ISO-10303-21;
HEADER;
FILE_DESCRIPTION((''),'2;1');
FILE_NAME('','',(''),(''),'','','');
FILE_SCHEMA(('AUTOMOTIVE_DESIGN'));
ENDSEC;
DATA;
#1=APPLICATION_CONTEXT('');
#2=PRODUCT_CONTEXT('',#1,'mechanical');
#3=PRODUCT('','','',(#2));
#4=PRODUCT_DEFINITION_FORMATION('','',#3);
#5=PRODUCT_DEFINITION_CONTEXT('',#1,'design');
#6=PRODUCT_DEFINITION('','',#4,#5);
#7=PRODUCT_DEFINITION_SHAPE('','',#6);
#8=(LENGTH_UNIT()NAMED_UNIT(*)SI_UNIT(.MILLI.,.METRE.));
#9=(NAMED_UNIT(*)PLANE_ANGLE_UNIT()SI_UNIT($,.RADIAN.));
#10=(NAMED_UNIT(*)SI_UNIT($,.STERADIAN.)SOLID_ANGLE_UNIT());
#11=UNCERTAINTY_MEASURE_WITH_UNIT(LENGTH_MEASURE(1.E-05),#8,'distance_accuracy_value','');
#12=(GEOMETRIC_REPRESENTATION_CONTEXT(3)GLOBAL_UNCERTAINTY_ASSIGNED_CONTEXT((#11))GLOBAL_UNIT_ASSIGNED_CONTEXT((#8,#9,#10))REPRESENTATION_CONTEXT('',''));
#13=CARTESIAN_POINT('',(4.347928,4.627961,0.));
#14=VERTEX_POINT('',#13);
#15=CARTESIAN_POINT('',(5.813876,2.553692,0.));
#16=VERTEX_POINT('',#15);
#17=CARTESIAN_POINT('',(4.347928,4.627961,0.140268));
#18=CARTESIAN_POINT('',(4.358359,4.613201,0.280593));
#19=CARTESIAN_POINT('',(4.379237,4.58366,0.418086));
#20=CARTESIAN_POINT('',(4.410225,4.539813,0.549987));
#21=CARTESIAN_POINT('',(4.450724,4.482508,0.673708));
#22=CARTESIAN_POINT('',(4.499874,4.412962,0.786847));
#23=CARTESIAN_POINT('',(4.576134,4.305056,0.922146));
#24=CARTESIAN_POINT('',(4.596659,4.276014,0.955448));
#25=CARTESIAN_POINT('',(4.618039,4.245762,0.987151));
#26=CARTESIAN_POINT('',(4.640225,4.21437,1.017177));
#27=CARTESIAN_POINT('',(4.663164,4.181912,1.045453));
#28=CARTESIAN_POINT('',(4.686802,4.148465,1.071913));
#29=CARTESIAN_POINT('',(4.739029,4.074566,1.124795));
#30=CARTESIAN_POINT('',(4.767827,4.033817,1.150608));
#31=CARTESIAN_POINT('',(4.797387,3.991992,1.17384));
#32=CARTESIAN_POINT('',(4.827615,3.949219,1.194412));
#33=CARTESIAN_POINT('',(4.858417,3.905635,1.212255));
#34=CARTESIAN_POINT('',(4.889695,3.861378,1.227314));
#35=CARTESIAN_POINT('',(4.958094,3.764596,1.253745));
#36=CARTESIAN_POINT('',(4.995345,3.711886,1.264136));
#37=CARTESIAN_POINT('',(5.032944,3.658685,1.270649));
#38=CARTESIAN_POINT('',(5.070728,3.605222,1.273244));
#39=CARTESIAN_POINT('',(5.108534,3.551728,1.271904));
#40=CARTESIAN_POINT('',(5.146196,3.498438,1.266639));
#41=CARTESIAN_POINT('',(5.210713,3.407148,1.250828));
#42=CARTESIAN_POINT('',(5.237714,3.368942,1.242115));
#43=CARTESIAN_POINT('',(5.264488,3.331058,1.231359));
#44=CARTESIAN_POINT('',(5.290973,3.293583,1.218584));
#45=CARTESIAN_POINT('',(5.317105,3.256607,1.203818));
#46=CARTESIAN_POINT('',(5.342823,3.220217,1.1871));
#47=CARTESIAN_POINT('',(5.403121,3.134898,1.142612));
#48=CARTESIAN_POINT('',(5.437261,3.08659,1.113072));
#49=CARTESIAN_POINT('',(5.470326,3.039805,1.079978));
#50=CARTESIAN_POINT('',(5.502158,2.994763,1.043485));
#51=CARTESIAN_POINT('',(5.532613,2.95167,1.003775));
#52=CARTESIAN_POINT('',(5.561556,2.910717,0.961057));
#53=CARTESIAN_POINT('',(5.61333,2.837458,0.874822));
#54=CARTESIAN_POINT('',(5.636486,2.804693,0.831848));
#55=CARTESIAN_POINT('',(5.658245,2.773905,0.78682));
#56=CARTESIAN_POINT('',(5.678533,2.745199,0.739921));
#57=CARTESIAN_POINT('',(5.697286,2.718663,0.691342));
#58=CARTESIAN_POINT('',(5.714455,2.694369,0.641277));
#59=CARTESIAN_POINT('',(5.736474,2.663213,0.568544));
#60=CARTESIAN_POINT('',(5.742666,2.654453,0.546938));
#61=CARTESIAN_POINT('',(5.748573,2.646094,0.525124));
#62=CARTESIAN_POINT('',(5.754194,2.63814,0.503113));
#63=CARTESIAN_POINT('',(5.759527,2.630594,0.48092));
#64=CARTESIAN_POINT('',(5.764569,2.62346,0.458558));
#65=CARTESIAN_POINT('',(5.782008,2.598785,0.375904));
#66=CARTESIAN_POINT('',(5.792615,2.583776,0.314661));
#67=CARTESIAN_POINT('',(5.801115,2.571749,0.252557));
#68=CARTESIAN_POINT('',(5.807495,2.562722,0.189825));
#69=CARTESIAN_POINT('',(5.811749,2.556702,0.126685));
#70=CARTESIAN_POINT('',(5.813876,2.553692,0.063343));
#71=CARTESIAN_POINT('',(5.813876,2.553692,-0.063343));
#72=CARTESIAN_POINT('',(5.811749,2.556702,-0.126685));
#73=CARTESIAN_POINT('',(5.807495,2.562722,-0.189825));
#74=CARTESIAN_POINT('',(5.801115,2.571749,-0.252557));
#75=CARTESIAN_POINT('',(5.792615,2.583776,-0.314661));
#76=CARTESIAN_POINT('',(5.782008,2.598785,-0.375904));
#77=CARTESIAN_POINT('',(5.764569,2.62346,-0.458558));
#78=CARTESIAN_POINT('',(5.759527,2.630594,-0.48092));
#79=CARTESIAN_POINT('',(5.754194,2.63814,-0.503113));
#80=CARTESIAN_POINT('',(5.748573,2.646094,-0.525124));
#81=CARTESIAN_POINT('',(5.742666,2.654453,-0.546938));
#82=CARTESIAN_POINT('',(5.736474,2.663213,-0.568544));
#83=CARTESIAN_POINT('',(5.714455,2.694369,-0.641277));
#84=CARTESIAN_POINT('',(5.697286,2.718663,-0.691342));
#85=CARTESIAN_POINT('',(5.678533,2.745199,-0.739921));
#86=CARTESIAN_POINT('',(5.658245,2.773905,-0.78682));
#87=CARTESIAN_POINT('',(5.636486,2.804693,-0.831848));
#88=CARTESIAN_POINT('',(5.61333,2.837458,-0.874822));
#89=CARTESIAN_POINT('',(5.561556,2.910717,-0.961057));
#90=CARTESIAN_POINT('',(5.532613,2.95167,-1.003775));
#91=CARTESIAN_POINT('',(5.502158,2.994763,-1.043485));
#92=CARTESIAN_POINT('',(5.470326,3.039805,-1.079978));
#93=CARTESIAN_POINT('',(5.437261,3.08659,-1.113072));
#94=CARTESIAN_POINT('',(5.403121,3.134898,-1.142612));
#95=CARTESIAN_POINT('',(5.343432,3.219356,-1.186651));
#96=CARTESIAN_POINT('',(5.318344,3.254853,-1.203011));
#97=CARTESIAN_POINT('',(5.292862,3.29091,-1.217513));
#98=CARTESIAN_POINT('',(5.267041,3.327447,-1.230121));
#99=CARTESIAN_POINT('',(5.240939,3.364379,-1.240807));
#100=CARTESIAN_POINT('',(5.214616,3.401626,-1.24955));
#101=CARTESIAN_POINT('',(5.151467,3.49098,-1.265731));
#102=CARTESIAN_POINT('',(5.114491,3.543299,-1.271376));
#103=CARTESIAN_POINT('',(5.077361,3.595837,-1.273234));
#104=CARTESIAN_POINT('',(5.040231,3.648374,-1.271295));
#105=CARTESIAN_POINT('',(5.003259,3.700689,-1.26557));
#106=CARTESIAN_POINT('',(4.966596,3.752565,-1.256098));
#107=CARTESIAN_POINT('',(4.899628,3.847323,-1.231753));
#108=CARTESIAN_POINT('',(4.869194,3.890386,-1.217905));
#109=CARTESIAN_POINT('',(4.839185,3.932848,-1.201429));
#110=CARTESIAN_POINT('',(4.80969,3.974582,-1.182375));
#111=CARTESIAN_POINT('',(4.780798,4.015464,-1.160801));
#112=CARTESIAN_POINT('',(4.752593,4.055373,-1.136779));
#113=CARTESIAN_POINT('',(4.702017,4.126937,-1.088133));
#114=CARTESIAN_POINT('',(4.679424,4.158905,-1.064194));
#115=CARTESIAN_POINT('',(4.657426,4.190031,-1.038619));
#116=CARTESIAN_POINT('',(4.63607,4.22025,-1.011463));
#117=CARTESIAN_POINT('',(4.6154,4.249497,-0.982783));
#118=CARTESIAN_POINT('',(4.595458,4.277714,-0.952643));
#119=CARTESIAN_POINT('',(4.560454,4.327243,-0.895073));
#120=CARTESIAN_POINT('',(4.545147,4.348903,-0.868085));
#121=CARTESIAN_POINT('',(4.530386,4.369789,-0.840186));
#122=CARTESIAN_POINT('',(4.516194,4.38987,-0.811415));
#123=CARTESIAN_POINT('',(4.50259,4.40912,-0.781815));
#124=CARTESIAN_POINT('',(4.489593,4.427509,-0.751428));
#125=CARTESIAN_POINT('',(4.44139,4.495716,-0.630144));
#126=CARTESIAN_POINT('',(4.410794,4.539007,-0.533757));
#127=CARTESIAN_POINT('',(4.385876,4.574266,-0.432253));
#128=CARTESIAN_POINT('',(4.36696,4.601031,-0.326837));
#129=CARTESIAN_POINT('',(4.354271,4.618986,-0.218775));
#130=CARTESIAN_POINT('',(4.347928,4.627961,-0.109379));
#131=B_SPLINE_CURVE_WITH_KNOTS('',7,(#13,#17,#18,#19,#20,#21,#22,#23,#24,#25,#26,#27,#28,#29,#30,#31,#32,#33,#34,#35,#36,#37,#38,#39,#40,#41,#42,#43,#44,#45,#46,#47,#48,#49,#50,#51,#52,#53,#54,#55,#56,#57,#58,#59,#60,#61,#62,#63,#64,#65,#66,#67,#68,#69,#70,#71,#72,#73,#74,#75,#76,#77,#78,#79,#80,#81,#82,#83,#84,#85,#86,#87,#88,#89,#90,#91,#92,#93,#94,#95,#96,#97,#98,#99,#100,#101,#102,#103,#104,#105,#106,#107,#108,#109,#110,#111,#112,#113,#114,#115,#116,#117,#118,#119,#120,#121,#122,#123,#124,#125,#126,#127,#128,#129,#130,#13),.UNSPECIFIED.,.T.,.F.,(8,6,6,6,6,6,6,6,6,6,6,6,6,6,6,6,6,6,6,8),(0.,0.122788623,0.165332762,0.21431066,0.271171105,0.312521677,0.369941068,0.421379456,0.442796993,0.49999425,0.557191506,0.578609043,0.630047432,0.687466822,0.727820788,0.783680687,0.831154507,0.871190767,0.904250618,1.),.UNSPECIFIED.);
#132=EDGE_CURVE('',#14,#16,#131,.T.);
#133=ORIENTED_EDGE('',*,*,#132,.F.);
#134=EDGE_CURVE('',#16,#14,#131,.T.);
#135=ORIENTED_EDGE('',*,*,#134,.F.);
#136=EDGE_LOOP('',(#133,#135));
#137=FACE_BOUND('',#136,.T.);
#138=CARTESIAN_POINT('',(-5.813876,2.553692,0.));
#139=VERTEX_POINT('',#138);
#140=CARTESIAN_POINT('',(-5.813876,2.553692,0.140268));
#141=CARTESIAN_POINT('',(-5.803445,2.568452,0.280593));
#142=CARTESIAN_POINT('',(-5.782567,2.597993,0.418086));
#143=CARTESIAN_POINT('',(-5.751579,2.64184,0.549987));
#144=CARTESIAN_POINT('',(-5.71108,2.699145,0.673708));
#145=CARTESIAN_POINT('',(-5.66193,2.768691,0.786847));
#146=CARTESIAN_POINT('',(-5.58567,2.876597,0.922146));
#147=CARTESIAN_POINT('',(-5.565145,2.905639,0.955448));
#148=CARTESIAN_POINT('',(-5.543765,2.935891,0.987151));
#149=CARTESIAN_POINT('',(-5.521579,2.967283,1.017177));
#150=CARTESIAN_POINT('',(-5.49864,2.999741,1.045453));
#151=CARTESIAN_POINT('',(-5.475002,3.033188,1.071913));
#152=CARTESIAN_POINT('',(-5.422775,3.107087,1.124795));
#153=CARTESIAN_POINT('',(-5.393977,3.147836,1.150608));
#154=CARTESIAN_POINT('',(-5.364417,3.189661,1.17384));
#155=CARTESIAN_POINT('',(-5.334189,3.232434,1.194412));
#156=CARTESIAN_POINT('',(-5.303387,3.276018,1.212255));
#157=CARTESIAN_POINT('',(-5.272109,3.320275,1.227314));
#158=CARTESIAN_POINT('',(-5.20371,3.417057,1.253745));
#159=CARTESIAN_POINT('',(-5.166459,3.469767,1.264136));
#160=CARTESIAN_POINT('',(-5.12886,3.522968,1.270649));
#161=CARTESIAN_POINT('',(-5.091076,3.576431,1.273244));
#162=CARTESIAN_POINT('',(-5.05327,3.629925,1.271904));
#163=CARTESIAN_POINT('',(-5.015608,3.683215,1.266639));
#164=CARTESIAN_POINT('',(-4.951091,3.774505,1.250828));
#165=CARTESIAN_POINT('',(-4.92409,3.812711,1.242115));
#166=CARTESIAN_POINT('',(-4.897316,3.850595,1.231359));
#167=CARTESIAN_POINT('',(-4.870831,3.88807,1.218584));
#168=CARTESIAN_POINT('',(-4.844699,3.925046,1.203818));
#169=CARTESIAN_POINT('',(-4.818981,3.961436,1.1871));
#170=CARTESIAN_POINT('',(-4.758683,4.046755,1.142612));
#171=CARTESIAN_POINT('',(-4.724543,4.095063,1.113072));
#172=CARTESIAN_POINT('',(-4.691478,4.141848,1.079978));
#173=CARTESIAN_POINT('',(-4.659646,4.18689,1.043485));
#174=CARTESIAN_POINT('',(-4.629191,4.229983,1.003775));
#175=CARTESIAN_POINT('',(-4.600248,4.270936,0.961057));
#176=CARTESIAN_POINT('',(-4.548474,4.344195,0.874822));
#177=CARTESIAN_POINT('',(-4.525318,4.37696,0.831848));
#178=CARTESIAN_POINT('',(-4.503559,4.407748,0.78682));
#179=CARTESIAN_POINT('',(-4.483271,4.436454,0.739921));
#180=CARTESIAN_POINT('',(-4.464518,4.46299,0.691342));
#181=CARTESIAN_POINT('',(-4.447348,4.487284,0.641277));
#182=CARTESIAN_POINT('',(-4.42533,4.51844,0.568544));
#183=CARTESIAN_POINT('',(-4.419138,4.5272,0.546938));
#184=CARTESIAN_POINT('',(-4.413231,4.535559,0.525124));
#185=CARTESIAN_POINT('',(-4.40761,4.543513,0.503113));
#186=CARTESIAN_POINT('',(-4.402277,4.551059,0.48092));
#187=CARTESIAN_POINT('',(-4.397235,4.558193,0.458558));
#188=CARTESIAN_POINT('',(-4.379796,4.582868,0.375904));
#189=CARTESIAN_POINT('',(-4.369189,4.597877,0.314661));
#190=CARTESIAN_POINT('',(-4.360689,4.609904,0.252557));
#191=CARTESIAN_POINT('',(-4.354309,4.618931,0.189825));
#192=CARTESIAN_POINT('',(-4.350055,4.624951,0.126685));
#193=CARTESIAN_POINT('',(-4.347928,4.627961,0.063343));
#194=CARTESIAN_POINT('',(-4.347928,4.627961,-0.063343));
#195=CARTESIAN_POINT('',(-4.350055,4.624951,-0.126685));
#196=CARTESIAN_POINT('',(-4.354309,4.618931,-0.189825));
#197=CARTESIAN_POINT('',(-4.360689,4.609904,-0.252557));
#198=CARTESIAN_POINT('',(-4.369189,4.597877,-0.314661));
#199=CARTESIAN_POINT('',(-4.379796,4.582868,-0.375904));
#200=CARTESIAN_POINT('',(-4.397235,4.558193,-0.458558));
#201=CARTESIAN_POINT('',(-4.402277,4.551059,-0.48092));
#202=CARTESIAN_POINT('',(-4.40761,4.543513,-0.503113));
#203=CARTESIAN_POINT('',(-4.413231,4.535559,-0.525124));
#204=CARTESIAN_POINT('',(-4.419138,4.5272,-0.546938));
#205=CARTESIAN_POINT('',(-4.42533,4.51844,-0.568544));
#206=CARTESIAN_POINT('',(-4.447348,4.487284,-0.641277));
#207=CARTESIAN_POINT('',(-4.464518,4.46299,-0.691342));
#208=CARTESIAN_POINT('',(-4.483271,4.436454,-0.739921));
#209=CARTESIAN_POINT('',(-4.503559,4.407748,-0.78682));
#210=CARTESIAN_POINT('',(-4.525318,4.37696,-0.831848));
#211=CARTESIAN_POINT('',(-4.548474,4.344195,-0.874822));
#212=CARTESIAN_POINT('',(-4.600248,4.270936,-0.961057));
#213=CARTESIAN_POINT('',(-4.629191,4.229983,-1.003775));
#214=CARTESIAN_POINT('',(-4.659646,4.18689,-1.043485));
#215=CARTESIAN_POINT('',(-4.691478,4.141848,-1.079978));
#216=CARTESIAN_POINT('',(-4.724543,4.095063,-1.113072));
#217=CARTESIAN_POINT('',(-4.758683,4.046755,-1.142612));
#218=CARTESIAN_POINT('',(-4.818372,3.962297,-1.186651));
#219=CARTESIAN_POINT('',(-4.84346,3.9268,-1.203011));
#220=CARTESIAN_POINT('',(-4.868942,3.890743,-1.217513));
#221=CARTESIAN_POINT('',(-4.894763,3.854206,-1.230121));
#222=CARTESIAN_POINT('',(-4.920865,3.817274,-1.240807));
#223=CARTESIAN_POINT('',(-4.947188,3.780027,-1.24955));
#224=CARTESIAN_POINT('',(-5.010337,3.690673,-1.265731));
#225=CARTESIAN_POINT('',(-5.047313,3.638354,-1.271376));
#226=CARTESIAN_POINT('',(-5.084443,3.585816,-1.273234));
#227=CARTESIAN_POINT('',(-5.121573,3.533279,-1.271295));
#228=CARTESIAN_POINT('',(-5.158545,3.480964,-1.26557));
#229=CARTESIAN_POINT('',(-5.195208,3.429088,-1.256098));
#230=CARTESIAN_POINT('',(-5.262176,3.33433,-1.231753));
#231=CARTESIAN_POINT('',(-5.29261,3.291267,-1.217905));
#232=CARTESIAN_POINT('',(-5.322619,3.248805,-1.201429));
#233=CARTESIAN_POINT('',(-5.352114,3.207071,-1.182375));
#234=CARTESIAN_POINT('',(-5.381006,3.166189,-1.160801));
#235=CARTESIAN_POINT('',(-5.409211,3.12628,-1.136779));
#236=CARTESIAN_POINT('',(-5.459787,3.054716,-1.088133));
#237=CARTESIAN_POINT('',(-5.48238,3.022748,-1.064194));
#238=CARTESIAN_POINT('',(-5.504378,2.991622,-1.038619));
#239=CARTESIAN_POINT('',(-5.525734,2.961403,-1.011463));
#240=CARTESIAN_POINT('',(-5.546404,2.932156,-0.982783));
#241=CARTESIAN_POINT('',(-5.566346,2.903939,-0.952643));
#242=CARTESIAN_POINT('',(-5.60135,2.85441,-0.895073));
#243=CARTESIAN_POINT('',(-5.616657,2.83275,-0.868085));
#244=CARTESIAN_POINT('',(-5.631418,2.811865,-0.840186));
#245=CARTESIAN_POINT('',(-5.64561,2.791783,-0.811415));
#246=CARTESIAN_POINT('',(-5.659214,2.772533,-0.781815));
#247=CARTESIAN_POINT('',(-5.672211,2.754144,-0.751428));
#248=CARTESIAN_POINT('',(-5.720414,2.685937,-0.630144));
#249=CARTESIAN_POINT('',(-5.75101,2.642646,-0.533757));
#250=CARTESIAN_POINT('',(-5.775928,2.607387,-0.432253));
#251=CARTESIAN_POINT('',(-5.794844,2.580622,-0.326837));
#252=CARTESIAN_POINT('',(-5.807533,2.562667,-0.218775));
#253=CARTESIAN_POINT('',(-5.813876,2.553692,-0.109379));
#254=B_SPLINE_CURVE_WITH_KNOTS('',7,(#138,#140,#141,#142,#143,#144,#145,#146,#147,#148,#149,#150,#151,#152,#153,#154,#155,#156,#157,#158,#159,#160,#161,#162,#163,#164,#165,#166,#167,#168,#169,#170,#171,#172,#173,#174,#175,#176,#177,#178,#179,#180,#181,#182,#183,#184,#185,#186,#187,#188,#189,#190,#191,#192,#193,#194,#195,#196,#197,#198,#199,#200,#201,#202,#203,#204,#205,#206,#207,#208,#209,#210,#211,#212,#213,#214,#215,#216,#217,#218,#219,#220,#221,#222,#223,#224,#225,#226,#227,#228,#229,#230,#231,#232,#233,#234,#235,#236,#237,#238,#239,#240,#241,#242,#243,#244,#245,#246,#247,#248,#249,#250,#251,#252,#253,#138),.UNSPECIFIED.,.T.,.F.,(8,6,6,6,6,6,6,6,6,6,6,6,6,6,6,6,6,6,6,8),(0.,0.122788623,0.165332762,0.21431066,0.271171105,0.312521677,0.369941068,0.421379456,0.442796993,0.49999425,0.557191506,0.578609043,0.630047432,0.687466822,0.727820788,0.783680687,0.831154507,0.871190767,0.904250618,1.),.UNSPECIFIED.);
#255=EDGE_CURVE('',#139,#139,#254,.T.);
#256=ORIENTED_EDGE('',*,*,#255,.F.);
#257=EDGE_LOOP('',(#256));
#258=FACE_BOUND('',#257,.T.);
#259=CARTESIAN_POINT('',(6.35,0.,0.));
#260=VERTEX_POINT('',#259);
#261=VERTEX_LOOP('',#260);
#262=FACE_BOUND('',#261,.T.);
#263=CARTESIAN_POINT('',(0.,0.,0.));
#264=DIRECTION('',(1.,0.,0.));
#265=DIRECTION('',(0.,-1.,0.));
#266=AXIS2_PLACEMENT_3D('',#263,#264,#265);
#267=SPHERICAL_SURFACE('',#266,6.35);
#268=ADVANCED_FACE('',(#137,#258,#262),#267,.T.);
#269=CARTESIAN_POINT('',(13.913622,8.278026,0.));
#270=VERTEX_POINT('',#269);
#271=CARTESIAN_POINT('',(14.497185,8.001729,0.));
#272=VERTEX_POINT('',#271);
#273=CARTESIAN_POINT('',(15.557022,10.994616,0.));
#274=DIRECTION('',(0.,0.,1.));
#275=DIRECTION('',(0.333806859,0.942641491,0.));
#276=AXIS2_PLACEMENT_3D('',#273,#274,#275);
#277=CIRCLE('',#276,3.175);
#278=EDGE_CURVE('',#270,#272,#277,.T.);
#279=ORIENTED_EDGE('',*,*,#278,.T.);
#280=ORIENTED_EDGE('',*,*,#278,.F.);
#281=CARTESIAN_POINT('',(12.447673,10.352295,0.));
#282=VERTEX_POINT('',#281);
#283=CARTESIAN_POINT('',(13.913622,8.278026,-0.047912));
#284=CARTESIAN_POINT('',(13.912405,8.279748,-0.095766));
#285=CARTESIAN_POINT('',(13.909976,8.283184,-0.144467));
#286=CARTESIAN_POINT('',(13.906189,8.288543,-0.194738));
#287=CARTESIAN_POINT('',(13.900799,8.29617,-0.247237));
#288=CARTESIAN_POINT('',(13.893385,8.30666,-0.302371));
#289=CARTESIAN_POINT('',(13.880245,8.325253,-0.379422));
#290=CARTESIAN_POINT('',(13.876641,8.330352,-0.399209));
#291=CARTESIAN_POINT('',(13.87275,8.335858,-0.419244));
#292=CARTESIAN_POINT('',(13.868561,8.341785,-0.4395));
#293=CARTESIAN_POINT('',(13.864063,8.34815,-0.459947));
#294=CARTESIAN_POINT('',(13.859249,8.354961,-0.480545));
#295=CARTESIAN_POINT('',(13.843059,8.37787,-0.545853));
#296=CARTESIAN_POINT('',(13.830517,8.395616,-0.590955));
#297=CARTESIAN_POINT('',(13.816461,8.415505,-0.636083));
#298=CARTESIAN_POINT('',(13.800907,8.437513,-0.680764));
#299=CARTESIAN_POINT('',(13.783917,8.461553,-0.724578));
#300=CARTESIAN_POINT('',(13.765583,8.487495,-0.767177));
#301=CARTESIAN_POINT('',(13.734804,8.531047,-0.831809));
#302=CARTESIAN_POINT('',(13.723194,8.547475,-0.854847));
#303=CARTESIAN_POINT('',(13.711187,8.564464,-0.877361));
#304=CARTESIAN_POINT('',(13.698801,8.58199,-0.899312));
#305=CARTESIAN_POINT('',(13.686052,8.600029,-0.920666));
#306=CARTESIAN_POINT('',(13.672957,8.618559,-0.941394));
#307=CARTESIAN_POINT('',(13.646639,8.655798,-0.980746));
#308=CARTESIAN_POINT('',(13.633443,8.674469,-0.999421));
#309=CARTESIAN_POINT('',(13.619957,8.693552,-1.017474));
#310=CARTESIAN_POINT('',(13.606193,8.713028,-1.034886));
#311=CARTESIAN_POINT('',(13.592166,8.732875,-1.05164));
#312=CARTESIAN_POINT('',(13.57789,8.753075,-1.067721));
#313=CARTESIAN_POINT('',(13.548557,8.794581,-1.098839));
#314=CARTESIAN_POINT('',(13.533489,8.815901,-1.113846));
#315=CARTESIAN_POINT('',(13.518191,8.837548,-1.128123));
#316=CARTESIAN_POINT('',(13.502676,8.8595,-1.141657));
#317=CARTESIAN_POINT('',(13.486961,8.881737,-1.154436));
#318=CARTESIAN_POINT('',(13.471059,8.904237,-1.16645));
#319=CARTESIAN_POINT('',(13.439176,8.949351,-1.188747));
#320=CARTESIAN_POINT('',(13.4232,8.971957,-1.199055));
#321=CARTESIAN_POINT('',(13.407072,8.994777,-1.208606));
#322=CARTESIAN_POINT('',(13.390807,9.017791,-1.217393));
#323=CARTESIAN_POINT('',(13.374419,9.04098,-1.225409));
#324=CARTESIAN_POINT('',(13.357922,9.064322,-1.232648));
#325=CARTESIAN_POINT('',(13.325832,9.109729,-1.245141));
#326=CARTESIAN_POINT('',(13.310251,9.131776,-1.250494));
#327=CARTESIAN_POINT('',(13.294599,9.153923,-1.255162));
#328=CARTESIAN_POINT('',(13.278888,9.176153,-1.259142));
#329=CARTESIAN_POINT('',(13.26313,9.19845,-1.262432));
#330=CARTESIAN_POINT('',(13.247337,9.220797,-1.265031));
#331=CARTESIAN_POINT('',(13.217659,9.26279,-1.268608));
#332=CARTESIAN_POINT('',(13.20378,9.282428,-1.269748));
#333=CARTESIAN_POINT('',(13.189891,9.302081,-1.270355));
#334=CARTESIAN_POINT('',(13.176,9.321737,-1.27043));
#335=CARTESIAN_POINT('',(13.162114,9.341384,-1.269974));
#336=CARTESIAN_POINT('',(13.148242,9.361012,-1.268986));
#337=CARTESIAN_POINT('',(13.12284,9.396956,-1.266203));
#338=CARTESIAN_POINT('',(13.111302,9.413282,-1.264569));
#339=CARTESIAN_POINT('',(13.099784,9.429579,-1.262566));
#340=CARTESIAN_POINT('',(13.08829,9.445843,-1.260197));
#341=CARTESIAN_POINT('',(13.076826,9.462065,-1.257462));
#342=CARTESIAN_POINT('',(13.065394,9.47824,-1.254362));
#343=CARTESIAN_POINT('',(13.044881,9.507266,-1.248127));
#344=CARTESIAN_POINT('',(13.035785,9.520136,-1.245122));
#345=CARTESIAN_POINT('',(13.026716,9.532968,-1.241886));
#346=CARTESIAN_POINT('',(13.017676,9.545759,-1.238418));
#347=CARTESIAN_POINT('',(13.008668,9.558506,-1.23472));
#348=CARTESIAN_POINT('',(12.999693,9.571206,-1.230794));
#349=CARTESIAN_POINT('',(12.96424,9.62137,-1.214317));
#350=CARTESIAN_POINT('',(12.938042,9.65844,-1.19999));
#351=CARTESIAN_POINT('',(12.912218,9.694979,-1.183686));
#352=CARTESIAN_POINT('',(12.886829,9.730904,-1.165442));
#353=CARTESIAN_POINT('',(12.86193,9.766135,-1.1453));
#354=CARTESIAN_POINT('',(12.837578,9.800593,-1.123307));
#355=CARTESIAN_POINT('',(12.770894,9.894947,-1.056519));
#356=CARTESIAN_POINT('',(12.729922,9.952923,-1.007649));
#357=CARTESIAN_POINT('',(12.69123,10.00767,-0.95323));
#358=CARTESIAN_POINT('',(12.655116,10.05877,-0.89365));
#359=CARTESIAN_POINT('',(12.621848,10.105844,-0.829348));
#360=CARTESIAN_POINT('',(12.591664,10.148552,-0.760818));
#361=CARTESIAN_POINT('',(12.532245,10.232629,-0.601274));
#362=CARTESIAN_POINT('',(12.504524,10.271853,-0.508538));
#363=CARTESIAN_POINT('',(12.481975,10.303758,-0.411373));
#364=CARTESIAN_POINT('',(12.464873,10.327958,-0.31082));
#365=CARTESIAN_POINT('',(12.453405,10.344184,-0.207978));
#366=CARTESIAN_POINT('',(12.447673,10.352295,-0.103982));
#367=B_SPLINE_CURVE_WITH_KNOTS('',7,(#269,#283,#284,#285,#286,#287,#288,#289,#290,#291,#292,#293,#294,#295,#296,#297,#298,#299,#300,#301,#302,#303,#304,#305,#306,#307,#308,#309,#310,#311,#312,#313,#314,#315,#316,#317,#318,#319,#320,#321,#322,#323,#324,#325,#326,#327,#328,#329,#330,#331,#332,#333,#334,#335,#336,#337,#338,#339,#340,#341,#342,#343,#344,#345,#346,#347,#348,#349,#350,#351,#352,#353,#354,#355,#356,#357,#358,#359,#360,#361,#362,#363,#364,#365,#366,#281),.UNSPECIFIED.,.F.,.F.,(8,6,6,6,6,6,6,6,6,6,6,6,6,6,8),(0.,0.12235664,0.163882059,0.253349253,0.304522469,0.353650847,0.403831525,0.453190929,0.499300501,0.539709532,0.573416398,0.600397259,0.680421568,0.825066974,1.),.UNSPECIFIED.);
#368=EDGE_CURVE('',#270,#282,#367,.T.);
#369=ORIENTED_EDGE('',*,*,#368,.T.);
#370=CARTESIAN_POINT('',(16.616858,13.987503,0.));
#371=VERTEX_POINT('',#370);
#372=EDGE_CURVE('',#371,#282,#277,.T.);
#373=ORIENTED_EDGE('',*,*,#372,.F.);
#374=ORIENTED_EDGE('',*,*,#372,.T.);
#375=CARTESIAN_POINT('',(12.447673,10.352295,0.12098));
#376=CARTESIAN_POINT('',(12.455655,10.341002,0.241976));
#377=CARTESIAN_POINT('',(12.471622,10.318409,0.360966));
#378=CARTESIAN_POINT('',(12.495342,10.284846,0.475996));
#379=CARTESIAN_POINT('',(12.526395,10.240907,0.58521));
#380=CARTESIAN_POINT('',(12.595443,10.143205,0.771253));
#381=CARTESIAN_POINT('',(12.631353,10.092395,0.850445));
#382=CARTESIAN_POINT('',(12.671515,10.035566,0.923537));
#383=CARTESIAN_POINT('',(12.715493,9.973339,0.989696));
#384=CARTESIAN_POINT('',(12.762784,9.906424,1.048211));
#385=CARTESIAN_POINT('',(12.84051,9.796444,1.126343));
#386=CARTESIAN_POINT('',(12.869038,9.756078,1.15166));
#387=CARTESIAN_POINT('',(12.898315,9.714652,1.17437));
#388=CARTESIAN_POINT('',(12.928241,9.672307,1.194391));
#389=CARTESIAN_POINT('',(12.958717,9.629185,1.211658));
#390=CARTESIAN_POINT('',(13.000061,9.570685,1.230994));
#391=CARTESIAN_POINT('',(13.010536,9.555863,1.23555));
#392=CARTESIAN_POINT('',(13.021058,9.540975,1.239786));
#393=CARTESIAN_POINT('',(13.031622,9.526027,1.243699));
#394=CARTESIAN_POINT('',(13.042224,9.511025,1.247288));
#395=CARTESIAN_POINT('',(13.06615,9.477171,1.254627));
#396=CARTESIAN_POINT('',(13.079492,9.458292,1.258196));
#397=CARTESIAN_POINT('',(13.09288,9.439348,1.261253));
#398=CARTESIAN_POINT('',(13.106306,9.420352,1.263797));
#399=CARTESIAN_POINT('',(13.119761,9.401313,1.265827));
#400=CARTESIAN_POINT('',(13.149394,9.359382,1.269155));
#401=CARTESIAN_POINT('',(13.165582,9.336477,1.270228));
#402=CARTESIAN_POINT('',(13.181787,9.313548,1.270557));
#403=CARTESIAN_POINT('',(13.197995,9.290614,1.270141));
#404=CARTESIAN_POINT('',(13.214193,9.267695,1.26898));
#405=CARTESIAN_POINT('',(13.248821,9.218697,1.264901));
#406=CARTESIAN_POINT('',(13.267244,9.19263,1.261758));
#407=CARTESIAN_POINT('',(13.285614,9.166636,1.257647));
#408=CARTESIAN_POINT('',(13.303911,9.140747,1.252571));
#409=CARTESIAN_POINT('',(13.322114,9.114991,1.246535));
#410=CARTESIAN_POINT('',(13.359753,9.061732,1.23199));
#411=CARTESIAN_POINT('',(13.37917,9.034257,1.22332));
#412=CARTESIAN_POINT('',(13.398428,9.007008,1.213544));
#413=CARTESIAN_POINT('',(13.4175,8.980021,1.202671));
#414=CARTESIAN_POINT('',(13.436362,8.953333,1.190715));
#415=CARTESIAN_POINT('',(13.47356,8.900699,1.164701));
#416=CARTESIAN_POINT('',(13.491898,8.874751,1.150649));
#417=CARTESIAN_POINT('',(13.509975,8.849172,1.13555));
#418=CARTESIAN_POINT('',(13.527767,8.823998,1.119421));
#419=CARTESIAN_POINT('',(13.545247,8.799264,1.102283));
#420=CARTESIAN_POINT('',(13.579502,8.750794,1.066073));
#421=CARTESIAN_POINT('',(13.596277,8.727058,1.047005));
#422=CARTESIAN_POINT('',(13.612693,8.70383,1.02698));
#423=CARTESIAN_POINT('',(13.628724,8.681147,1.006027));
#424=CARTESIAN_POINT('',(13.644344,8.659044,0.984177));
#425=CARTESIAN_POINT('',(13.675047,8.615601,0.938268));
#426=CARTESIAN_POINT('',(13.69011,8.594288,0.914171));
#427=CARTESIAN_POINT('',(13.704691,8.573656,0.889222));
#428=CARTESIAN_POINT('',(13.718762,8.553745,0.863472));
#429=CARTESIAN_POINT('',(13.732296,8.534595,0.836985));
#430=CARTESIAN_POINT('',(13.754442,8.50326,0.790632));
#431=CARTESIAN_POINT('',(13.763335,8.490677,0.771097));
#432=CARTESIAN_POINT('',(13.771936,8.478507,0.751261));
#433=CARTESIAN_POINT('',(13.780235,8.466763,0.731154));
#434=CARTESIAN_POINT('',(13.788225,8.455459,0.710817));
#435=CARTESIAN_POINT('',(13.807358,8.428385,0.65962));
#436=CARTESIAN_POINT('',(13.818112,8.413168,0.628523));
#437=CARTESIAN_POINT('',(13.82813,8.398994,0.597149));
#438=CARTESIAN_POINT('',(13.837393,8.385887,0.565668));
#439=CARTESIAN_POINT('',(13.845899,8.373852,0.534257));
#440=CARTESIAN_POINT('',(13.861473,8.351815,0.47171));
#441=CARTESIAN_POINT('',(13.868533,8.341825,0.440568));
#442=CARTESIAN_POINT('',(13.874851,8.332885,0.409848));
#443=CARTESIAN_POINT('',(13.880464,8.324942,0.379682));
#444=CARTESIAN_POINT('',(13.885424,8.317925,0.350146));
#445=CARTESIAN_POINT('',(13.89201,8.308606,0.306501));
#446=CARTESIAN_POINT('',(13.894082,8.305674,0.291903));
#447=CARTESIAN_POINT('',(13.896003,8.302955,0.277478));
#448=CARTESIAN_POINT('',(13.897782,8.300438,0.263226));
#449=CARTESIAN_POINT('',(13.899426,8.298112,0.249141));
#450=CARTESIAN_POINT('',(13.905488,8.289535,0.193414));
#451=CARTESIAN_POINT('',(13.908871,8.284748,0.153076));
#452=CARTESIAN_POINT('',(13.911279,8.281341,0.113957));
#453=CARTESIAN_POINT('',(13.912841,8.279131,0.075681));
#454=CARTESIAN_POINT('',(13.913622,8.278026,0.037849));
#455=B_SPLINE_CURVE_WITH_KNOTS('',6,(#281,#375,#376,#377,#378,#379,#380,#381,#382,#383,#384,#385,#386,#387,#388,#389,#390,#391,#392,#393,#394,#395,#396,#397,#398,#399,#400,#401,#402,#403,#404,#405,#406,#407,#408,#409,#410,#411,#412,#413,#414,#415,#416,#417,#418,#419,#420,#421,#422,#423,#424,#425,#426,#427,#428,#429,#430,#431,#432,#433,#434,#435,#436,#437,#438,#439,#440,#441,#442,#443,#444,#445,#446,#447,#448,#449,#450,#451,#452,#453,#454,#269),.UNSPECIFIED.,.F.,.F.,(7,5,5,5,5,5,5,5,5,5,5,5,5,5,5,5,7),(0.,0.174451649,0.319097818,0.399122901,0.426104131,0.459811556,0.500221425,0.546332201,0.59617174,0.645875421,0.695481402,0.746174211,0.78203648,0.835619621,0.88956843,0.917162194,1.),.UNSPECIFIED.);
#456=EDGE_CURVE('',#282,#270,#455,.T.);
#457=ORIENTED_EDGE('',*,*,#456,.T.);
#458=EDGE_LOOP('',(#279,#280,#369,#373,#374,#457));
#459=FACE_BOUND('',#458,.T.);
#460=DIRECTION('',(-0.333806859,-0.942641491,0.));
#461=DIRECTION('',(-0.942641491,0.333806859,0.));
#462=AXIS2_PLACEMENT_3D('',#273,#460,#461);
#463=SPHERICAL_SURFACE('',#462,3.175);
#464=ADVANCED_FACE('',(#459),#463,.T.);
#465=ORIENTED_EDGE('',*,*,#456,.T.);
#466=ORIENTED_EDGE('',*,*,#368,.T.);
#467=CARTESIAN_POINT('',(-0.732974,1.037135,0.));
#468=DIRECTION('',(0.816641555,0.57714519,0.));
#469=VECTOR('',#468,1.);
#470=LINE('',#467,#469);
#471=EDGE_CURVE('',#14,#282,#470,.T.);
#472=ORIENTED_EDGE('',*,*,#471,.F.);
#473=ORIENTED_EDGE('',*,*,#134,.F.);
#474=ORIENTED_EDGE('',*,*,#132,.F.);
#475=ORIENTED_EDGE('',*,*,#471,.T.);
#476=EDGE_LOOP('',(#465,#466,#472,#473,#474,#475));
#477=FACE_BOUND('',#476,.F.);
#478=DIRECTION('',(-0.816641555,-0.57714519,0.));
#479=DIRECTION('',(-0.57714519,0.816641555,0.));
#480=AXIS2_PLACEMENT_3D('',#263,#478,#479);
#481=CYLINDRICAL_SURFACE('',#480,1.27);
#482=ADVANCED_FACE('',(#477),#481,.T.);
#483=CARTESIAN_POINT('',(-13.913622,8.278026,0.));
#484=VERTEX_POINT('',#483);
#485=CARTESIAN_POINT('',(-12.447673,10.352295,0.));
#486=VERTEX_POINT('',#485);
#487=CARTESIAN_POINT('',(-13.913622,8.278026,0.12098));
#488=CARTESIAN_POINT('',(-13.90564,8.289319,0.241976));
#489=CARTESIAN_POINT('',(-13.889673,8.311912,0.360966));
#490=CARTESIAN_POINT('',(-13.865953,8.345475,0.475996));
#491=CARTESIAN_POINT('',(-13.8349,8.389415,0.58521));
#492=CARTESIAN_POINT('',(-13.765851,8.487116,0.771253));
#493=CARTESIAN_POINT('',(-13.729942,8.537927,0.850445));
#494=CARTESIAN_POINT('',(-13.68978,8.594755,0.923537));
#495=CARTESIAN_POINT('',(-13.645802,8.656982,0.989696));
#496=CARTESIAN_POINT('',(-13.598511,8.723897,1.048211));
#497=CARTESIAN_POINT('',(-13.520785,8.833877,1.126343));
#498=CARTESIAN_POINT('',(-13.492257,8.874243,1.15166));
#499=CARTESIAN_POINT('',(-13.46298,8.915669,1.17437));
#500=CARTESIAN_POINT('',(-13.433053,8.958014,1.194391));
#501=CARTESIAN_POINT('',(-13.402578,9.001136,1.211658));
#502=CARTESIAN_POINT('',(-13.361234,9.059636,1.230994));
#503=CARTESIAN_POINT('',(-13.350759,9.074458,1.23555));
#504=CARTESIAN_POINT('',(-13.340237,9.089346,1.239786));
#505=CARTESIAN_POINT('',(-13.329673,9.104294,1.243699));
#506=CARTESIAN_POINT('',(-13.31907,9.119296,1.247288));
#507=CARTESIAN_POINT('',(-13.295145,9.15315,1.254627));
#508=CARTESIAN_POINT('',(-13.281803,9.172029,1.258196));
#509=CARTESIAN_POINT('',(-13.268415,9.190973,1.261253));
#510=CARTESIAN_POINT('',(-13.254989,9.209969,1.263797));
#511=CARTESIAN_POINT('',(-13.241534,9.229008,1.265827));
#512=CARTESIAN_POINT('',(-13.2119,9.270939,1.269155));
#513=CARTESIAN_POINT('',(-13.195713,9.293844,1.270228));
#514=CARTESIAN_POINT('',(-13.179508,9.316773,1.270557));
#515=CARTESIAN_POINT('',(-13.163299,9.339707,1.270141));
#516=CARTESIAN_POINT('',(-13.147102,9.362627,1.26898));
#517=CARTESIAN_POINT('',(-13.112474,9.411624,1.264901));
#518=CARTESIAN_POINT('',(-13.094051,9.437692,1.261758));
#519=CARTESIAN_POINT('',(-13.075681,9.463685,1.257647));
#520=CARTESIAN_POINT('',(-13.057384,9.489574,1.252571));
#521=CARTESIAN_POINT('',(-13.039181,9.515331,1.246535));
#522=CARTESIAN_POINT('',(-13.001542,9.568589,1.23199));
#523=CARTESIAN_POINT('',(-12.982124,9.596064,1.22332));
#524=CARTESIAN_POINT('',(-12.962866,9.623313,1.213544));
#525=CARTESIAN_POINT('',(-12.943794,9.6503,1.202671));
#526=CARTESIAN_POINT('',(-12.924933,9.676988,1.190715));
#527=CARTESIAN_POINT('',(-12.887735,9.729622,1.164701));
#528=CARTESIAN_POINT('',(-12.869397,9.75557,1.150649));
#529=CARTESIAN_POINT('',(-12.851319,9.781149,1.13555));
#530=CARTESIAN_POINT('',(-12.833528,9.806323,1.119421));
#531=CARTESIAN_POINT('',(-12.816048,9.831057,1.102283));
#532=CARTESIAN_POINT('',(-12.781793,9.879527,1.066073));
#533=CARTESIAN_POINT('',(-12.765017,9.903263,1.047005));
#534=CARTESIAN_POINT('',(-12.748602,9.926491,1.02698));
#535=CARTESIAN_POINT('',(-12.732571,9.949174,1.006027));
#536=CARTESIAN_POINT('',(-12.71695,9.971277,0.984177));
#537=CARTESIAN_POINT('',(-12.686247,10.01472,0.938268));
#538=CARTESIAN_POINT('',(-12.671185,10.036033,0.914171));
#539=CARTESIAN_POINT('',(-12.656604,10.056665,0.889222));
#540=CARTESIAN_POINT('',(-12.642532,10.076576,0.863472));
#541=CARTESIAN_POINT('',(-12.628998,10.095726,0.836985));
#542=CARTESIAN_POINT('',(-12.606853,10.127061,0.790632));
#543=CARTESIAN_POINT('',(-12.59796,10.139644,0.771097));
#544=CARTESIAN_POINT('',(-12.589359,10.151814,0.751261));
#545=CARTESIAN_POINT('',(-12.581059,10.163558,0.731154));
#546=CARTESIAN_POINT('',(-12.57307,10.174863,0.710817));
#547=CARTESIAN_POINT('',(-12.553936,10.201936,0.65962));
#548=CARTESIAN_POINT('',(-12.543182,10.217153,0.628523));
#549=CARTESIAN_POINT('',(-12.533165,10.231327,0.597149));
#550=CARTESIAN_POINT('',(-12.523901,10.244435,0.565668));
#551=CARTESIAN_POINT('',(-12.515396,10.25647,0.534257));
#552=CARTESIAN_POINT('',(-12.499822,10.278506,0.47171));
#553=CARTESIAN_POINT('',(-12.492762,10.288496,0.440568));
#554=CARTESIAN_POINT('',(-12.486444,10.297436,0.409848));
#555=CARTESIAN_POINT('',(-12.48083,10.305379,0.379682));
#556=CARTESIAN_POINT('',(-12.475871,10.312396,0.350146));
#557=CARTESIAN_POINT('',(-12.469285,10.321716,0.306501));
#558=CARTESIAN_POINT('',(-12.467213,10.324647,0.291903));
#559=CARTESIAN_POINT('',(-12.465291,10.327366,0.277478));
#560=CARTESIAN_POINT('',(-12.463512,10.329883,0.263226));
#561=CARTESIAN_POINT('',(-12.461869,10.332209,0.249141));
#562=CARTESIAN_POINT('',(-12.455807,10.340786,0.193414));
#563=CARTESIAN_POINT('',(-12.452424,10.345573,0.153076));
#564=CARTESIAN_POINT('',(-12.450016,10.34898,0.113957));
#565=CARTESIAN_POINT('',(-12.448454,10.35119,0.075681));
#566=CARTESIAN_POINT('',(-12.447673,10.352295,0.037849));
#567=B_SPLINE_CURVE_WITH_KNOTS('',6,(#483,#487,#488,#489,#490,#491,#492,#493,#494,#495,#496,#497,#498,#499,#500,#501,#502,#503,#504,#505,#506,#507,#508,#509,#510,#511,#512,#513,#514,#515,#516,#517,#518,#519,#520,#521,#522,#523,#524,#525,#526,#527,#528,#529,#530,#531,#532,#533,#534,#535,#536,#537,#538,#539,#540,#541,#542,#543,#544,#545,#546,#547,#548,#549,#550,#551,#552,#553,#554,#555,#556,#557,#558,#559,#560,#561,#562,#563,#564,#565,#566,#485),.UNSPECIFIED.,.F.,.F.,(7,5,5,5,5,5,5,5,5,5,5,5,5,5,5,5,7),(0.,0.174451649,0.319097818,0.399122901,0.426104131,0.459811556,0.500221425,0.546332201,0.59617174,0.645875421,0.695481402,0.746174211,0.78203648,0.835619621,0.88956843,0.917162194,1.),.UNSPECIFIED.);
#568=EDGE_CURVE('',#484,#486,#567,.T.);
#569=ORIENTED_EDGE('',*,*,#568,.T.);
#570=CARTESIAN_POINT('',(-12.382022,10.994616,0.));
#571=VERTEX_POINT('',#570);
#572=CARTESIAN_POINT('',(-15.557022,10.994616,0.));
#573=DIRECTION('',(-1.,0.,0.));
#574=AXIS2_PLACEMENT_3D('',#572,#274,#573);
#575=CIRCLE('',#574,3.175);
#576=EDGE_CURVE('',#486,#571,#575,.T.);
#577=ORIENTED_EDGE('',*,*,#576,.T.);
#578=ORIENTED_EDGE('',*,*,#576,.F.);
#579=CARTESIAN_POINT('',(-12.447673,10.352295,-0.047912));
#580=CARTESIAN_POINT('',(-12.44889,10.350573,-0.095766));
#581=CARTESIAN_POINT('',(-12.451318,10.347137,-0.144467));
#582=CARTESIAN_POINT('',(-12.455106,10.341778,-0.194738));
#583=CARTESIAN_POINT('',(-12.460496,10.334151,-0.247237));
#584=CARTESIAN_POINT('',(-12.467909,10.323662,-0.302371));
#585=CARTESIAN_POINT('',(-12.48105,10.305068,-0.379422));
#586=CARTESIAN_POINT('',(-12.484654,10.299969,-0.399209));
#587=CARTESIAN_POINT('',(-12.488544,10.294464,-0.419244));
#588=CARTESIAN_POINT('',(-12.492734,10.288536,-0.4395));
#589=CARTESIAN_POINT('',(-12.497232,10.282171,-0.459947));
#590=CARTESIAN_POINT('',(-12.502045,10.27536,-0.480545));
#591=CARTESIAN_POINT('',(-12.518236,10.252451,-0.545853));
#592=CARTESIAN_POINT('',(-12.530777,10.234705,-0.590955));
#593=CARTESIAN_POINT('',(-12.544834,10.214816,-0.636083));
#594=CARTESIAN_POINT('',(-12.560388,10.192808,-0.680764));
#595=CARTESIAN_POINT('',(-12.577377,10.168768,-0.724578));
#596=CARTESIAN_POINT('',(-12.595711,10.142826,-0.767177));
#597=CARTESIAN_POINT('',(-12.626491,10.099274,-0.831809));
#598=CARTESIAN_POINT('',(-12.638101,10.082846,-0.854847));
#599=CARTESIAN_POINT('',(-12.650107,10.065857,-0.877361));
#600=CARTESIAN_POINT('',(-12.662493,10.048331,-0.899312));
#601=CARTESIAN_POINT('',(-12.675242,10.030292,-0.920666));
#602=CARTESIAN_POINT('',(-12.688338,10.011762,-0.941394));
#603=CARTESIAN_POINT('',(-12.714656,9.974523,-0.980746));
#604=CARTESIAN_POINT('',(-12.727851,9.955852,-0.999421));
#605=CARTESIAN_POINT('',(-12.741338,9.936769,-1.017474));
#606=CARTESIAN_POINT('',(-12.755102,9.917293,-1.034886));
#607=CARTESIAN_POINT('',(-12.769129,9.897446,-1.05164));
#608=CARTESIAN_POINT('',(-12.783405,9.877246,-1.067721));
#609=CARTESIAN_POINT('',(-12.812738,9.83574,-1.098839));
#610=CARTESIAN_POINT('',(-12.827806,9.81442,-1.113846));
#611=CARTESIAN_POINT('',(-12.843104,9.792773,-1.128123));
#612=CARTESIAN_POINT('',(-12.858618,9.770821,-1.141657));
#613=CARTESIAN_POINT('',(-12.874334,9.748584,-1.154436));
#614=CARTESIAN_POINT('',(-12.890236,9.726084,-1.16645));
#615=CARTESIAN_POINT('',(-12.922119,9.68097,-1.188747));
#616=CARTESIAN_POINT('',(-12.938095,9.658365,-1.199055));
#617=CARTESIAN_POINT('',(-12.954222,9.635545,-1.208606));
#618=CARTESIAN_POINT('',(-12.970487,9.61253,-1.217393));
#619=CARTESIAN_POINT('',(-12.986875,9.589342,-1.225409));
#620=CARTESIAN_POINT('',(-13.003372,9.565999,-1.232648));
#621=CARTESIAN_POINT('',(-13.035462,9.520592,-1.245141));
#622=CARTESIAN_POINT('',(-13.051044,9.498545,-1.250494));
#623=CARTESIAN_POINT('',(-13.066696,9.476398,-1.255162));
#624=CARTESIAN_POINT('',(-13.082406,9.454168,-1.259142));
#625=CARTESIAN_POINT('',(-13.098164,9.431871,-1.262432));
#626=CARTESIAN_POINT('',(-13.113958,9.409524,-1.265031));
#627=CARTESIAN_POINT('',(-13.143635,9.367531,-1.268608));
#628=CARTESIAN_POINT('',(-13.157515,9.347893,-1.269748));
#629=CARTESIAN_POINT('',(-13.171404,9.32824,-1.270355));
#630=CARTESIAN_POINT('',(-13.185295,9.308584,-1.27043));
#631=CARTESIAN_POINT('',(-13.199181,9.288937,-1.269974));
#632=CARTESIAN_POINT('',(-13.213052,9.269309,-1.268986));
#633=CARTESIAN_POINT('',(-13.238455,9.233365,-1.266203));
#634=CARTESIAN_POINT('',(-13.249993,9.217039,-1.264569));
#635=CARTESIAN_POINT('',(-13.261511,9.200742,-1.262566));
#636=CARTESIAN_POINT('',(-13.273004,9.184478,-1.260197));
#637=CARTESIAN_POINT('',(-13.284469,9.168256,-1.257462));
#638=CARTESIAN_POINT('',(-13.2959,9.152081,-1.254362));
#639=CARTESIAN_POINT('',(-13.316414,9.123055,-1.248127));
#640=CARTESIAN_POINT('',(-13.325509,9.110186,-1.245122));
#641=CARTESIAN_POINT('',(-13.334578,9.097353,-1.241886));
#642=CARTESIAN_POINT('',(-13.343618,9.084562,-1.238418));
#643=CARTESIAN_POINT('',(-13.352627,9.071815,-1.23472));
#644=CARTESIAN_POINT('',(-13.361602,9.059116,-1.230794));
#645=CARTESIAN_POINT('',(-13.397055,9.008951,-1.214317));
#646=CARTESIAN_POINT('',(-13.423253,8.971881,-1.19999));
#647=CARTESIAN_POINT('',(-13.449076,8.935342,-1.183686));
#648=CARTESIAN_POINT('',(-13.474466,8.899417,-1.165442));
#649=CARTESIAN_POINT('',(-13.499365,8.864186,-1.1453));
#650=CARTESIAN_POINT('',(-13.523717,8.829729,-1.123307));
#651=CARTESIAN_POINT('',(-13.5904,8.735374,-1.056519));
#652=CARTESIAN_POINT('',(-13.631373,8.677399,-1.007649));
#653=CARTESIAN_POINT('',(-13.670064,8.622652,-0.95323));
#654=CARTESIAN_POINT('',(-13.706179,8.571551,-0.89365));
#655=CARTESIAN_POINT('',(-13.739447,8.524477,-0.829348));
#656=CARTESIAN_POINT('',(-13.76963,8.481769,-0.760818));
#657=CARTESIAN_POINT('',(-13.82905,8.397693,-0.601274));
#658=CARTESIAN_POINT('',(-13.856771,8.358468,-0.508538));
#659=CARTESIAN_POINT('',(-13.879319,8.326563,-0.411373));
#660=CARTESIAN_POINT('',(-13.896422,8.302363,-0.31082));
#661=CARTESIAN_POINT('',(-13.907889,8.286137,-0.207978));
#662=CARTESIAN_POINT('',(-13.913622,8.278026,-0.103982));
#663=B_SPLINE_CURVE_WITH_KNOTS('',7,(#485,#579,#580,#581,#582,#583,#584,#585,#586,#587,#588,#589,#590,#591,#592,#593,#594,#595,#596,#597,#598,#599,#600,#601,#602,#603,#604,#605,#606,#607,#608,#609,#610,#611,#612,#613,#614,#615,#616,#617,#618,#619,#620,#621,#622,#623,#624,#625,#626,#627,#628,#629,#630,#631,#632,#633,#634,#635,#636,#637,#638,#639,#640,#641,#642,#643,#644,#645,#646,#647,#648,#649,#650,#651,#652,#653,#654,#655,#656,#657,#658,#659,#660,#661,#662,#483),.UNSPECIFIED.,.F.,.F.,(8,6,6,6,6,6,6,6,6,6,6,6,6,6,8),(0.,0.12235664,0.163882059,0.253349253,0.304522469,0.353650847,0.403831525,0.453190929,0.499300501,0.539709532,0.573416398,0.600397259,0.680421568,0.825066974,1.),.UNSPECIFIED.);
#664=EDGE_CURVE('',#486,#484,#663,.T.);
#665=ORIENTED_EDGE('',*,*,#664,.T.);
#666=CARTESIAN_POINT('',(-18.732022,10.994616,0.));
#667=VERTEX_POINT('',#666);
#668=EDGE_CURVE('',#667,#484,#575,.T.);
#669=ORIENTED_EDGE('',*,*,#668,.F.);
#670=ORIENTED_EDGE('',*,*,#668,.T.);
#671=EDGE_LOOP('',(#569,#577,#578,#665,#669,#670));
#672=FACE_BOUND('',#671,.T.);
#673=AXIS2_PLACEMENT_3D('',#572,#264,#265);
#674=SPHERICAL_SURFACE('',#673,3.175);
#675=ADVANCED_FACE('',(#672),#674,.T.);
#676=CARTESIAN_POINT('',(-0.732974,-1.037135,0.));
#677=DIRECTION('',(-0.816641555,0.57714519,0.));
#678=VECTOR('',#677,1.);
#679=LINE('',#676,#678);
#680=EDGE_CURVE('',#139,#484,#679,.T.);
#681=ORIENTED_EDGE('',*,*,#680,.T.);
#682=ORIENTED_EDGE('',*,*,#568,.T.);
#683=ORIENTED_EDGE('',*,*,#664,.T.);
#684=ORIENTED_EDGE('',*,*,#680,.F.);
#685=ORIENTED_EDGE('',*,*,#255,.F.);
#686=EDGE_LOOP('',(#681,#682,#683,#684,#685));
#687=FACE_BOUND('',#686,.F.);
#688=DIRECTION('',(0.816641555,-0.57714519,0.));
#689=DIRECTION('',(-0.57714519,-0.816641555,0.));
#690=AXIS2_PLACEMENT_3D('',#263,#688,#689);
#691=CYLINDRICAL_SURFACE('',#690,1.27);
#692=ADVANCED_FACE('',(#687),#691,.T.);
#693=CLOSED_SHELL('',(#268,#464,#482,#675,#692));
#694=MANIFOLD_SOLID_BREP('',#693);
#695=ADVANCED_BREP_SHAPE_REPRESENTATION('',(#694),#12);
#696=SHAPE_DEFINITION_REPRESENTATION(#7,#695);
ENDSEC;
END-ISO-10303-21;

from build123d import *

# Parameters (mm, degrees)
F6_COUNT  = 2
F6_ANGLE  = 109.5
F8_R      = 1.27
F9_DEPTH  = 19.03992
F10_COUNT = 2
F10_ANGLE = 109.5


with BuildPart() as f2:
    # F1 (on Top) → F2 (revolve)
    with BuildSketch(Plane.XY):
        with BuildLine():
            Line((6.35, 0), (-6.35, 0))
            ThreePointArc((-6.35, 0), (0, -6.35), (6.35, 0))
        make_face()
    revolve(axis=Axis((0, 0, 0), (1, 0, 0)))



with BuildPart() as f4:
    # F3 (on Top) → F4 (revolve)
    with BuildSketch(Plane.XY):
        with BuildLine():
            Line((-12.3820216258, 10.9946158702), (-18.7320216258, 10.9946158702))
            ThreePointArc((-18.7320216258, 10.9946158702), (-15.5570216258, 7.8196158702), (-12.3820216258, 10.9946158702))
        make_face()
    revolve(axis=Axis((-15.5570216258, 10.9946158702, 0), (1, 0, 0)))


with BuildPart() as f6_1:
    # F6: instance of F4
    add(f4.part.rotate(Axis((0, 0, 9.7665896936), (0, 0, -1)), 1 * F6_ANGLE / (F6_COUNT - 1)))


with BuildPart() as f2_1:
    add(f2.part)

    add(f6_1.part)  # F9 merges F6_1
    # F8 (on line) → F9 (join)
    with BuildSketch(Plane(origin=(0, 0, 0), x_dir=(-0.57714519, 0.8166415552, 0), z_dir=(0.8166415552, 0.57714519, 0))):
        Circle(F8_R)
    extrude(amount=F9_DEPTH)



with BuildPart() as f2_2:
    add(f2_1.part)

    add(f4.part)  # F10 merges F4
    # F10: F2 ×2 about axis
    f10_axis = Axis((0, 0, 9.7665896936), (0, 0, 1))
    for i in range(1, F10_COUNT):
        add(f2_1.part.rotate(f10_axis, i * F10_ANGLE / (F10_COUNT - 1)))


solid = f2_2.part
